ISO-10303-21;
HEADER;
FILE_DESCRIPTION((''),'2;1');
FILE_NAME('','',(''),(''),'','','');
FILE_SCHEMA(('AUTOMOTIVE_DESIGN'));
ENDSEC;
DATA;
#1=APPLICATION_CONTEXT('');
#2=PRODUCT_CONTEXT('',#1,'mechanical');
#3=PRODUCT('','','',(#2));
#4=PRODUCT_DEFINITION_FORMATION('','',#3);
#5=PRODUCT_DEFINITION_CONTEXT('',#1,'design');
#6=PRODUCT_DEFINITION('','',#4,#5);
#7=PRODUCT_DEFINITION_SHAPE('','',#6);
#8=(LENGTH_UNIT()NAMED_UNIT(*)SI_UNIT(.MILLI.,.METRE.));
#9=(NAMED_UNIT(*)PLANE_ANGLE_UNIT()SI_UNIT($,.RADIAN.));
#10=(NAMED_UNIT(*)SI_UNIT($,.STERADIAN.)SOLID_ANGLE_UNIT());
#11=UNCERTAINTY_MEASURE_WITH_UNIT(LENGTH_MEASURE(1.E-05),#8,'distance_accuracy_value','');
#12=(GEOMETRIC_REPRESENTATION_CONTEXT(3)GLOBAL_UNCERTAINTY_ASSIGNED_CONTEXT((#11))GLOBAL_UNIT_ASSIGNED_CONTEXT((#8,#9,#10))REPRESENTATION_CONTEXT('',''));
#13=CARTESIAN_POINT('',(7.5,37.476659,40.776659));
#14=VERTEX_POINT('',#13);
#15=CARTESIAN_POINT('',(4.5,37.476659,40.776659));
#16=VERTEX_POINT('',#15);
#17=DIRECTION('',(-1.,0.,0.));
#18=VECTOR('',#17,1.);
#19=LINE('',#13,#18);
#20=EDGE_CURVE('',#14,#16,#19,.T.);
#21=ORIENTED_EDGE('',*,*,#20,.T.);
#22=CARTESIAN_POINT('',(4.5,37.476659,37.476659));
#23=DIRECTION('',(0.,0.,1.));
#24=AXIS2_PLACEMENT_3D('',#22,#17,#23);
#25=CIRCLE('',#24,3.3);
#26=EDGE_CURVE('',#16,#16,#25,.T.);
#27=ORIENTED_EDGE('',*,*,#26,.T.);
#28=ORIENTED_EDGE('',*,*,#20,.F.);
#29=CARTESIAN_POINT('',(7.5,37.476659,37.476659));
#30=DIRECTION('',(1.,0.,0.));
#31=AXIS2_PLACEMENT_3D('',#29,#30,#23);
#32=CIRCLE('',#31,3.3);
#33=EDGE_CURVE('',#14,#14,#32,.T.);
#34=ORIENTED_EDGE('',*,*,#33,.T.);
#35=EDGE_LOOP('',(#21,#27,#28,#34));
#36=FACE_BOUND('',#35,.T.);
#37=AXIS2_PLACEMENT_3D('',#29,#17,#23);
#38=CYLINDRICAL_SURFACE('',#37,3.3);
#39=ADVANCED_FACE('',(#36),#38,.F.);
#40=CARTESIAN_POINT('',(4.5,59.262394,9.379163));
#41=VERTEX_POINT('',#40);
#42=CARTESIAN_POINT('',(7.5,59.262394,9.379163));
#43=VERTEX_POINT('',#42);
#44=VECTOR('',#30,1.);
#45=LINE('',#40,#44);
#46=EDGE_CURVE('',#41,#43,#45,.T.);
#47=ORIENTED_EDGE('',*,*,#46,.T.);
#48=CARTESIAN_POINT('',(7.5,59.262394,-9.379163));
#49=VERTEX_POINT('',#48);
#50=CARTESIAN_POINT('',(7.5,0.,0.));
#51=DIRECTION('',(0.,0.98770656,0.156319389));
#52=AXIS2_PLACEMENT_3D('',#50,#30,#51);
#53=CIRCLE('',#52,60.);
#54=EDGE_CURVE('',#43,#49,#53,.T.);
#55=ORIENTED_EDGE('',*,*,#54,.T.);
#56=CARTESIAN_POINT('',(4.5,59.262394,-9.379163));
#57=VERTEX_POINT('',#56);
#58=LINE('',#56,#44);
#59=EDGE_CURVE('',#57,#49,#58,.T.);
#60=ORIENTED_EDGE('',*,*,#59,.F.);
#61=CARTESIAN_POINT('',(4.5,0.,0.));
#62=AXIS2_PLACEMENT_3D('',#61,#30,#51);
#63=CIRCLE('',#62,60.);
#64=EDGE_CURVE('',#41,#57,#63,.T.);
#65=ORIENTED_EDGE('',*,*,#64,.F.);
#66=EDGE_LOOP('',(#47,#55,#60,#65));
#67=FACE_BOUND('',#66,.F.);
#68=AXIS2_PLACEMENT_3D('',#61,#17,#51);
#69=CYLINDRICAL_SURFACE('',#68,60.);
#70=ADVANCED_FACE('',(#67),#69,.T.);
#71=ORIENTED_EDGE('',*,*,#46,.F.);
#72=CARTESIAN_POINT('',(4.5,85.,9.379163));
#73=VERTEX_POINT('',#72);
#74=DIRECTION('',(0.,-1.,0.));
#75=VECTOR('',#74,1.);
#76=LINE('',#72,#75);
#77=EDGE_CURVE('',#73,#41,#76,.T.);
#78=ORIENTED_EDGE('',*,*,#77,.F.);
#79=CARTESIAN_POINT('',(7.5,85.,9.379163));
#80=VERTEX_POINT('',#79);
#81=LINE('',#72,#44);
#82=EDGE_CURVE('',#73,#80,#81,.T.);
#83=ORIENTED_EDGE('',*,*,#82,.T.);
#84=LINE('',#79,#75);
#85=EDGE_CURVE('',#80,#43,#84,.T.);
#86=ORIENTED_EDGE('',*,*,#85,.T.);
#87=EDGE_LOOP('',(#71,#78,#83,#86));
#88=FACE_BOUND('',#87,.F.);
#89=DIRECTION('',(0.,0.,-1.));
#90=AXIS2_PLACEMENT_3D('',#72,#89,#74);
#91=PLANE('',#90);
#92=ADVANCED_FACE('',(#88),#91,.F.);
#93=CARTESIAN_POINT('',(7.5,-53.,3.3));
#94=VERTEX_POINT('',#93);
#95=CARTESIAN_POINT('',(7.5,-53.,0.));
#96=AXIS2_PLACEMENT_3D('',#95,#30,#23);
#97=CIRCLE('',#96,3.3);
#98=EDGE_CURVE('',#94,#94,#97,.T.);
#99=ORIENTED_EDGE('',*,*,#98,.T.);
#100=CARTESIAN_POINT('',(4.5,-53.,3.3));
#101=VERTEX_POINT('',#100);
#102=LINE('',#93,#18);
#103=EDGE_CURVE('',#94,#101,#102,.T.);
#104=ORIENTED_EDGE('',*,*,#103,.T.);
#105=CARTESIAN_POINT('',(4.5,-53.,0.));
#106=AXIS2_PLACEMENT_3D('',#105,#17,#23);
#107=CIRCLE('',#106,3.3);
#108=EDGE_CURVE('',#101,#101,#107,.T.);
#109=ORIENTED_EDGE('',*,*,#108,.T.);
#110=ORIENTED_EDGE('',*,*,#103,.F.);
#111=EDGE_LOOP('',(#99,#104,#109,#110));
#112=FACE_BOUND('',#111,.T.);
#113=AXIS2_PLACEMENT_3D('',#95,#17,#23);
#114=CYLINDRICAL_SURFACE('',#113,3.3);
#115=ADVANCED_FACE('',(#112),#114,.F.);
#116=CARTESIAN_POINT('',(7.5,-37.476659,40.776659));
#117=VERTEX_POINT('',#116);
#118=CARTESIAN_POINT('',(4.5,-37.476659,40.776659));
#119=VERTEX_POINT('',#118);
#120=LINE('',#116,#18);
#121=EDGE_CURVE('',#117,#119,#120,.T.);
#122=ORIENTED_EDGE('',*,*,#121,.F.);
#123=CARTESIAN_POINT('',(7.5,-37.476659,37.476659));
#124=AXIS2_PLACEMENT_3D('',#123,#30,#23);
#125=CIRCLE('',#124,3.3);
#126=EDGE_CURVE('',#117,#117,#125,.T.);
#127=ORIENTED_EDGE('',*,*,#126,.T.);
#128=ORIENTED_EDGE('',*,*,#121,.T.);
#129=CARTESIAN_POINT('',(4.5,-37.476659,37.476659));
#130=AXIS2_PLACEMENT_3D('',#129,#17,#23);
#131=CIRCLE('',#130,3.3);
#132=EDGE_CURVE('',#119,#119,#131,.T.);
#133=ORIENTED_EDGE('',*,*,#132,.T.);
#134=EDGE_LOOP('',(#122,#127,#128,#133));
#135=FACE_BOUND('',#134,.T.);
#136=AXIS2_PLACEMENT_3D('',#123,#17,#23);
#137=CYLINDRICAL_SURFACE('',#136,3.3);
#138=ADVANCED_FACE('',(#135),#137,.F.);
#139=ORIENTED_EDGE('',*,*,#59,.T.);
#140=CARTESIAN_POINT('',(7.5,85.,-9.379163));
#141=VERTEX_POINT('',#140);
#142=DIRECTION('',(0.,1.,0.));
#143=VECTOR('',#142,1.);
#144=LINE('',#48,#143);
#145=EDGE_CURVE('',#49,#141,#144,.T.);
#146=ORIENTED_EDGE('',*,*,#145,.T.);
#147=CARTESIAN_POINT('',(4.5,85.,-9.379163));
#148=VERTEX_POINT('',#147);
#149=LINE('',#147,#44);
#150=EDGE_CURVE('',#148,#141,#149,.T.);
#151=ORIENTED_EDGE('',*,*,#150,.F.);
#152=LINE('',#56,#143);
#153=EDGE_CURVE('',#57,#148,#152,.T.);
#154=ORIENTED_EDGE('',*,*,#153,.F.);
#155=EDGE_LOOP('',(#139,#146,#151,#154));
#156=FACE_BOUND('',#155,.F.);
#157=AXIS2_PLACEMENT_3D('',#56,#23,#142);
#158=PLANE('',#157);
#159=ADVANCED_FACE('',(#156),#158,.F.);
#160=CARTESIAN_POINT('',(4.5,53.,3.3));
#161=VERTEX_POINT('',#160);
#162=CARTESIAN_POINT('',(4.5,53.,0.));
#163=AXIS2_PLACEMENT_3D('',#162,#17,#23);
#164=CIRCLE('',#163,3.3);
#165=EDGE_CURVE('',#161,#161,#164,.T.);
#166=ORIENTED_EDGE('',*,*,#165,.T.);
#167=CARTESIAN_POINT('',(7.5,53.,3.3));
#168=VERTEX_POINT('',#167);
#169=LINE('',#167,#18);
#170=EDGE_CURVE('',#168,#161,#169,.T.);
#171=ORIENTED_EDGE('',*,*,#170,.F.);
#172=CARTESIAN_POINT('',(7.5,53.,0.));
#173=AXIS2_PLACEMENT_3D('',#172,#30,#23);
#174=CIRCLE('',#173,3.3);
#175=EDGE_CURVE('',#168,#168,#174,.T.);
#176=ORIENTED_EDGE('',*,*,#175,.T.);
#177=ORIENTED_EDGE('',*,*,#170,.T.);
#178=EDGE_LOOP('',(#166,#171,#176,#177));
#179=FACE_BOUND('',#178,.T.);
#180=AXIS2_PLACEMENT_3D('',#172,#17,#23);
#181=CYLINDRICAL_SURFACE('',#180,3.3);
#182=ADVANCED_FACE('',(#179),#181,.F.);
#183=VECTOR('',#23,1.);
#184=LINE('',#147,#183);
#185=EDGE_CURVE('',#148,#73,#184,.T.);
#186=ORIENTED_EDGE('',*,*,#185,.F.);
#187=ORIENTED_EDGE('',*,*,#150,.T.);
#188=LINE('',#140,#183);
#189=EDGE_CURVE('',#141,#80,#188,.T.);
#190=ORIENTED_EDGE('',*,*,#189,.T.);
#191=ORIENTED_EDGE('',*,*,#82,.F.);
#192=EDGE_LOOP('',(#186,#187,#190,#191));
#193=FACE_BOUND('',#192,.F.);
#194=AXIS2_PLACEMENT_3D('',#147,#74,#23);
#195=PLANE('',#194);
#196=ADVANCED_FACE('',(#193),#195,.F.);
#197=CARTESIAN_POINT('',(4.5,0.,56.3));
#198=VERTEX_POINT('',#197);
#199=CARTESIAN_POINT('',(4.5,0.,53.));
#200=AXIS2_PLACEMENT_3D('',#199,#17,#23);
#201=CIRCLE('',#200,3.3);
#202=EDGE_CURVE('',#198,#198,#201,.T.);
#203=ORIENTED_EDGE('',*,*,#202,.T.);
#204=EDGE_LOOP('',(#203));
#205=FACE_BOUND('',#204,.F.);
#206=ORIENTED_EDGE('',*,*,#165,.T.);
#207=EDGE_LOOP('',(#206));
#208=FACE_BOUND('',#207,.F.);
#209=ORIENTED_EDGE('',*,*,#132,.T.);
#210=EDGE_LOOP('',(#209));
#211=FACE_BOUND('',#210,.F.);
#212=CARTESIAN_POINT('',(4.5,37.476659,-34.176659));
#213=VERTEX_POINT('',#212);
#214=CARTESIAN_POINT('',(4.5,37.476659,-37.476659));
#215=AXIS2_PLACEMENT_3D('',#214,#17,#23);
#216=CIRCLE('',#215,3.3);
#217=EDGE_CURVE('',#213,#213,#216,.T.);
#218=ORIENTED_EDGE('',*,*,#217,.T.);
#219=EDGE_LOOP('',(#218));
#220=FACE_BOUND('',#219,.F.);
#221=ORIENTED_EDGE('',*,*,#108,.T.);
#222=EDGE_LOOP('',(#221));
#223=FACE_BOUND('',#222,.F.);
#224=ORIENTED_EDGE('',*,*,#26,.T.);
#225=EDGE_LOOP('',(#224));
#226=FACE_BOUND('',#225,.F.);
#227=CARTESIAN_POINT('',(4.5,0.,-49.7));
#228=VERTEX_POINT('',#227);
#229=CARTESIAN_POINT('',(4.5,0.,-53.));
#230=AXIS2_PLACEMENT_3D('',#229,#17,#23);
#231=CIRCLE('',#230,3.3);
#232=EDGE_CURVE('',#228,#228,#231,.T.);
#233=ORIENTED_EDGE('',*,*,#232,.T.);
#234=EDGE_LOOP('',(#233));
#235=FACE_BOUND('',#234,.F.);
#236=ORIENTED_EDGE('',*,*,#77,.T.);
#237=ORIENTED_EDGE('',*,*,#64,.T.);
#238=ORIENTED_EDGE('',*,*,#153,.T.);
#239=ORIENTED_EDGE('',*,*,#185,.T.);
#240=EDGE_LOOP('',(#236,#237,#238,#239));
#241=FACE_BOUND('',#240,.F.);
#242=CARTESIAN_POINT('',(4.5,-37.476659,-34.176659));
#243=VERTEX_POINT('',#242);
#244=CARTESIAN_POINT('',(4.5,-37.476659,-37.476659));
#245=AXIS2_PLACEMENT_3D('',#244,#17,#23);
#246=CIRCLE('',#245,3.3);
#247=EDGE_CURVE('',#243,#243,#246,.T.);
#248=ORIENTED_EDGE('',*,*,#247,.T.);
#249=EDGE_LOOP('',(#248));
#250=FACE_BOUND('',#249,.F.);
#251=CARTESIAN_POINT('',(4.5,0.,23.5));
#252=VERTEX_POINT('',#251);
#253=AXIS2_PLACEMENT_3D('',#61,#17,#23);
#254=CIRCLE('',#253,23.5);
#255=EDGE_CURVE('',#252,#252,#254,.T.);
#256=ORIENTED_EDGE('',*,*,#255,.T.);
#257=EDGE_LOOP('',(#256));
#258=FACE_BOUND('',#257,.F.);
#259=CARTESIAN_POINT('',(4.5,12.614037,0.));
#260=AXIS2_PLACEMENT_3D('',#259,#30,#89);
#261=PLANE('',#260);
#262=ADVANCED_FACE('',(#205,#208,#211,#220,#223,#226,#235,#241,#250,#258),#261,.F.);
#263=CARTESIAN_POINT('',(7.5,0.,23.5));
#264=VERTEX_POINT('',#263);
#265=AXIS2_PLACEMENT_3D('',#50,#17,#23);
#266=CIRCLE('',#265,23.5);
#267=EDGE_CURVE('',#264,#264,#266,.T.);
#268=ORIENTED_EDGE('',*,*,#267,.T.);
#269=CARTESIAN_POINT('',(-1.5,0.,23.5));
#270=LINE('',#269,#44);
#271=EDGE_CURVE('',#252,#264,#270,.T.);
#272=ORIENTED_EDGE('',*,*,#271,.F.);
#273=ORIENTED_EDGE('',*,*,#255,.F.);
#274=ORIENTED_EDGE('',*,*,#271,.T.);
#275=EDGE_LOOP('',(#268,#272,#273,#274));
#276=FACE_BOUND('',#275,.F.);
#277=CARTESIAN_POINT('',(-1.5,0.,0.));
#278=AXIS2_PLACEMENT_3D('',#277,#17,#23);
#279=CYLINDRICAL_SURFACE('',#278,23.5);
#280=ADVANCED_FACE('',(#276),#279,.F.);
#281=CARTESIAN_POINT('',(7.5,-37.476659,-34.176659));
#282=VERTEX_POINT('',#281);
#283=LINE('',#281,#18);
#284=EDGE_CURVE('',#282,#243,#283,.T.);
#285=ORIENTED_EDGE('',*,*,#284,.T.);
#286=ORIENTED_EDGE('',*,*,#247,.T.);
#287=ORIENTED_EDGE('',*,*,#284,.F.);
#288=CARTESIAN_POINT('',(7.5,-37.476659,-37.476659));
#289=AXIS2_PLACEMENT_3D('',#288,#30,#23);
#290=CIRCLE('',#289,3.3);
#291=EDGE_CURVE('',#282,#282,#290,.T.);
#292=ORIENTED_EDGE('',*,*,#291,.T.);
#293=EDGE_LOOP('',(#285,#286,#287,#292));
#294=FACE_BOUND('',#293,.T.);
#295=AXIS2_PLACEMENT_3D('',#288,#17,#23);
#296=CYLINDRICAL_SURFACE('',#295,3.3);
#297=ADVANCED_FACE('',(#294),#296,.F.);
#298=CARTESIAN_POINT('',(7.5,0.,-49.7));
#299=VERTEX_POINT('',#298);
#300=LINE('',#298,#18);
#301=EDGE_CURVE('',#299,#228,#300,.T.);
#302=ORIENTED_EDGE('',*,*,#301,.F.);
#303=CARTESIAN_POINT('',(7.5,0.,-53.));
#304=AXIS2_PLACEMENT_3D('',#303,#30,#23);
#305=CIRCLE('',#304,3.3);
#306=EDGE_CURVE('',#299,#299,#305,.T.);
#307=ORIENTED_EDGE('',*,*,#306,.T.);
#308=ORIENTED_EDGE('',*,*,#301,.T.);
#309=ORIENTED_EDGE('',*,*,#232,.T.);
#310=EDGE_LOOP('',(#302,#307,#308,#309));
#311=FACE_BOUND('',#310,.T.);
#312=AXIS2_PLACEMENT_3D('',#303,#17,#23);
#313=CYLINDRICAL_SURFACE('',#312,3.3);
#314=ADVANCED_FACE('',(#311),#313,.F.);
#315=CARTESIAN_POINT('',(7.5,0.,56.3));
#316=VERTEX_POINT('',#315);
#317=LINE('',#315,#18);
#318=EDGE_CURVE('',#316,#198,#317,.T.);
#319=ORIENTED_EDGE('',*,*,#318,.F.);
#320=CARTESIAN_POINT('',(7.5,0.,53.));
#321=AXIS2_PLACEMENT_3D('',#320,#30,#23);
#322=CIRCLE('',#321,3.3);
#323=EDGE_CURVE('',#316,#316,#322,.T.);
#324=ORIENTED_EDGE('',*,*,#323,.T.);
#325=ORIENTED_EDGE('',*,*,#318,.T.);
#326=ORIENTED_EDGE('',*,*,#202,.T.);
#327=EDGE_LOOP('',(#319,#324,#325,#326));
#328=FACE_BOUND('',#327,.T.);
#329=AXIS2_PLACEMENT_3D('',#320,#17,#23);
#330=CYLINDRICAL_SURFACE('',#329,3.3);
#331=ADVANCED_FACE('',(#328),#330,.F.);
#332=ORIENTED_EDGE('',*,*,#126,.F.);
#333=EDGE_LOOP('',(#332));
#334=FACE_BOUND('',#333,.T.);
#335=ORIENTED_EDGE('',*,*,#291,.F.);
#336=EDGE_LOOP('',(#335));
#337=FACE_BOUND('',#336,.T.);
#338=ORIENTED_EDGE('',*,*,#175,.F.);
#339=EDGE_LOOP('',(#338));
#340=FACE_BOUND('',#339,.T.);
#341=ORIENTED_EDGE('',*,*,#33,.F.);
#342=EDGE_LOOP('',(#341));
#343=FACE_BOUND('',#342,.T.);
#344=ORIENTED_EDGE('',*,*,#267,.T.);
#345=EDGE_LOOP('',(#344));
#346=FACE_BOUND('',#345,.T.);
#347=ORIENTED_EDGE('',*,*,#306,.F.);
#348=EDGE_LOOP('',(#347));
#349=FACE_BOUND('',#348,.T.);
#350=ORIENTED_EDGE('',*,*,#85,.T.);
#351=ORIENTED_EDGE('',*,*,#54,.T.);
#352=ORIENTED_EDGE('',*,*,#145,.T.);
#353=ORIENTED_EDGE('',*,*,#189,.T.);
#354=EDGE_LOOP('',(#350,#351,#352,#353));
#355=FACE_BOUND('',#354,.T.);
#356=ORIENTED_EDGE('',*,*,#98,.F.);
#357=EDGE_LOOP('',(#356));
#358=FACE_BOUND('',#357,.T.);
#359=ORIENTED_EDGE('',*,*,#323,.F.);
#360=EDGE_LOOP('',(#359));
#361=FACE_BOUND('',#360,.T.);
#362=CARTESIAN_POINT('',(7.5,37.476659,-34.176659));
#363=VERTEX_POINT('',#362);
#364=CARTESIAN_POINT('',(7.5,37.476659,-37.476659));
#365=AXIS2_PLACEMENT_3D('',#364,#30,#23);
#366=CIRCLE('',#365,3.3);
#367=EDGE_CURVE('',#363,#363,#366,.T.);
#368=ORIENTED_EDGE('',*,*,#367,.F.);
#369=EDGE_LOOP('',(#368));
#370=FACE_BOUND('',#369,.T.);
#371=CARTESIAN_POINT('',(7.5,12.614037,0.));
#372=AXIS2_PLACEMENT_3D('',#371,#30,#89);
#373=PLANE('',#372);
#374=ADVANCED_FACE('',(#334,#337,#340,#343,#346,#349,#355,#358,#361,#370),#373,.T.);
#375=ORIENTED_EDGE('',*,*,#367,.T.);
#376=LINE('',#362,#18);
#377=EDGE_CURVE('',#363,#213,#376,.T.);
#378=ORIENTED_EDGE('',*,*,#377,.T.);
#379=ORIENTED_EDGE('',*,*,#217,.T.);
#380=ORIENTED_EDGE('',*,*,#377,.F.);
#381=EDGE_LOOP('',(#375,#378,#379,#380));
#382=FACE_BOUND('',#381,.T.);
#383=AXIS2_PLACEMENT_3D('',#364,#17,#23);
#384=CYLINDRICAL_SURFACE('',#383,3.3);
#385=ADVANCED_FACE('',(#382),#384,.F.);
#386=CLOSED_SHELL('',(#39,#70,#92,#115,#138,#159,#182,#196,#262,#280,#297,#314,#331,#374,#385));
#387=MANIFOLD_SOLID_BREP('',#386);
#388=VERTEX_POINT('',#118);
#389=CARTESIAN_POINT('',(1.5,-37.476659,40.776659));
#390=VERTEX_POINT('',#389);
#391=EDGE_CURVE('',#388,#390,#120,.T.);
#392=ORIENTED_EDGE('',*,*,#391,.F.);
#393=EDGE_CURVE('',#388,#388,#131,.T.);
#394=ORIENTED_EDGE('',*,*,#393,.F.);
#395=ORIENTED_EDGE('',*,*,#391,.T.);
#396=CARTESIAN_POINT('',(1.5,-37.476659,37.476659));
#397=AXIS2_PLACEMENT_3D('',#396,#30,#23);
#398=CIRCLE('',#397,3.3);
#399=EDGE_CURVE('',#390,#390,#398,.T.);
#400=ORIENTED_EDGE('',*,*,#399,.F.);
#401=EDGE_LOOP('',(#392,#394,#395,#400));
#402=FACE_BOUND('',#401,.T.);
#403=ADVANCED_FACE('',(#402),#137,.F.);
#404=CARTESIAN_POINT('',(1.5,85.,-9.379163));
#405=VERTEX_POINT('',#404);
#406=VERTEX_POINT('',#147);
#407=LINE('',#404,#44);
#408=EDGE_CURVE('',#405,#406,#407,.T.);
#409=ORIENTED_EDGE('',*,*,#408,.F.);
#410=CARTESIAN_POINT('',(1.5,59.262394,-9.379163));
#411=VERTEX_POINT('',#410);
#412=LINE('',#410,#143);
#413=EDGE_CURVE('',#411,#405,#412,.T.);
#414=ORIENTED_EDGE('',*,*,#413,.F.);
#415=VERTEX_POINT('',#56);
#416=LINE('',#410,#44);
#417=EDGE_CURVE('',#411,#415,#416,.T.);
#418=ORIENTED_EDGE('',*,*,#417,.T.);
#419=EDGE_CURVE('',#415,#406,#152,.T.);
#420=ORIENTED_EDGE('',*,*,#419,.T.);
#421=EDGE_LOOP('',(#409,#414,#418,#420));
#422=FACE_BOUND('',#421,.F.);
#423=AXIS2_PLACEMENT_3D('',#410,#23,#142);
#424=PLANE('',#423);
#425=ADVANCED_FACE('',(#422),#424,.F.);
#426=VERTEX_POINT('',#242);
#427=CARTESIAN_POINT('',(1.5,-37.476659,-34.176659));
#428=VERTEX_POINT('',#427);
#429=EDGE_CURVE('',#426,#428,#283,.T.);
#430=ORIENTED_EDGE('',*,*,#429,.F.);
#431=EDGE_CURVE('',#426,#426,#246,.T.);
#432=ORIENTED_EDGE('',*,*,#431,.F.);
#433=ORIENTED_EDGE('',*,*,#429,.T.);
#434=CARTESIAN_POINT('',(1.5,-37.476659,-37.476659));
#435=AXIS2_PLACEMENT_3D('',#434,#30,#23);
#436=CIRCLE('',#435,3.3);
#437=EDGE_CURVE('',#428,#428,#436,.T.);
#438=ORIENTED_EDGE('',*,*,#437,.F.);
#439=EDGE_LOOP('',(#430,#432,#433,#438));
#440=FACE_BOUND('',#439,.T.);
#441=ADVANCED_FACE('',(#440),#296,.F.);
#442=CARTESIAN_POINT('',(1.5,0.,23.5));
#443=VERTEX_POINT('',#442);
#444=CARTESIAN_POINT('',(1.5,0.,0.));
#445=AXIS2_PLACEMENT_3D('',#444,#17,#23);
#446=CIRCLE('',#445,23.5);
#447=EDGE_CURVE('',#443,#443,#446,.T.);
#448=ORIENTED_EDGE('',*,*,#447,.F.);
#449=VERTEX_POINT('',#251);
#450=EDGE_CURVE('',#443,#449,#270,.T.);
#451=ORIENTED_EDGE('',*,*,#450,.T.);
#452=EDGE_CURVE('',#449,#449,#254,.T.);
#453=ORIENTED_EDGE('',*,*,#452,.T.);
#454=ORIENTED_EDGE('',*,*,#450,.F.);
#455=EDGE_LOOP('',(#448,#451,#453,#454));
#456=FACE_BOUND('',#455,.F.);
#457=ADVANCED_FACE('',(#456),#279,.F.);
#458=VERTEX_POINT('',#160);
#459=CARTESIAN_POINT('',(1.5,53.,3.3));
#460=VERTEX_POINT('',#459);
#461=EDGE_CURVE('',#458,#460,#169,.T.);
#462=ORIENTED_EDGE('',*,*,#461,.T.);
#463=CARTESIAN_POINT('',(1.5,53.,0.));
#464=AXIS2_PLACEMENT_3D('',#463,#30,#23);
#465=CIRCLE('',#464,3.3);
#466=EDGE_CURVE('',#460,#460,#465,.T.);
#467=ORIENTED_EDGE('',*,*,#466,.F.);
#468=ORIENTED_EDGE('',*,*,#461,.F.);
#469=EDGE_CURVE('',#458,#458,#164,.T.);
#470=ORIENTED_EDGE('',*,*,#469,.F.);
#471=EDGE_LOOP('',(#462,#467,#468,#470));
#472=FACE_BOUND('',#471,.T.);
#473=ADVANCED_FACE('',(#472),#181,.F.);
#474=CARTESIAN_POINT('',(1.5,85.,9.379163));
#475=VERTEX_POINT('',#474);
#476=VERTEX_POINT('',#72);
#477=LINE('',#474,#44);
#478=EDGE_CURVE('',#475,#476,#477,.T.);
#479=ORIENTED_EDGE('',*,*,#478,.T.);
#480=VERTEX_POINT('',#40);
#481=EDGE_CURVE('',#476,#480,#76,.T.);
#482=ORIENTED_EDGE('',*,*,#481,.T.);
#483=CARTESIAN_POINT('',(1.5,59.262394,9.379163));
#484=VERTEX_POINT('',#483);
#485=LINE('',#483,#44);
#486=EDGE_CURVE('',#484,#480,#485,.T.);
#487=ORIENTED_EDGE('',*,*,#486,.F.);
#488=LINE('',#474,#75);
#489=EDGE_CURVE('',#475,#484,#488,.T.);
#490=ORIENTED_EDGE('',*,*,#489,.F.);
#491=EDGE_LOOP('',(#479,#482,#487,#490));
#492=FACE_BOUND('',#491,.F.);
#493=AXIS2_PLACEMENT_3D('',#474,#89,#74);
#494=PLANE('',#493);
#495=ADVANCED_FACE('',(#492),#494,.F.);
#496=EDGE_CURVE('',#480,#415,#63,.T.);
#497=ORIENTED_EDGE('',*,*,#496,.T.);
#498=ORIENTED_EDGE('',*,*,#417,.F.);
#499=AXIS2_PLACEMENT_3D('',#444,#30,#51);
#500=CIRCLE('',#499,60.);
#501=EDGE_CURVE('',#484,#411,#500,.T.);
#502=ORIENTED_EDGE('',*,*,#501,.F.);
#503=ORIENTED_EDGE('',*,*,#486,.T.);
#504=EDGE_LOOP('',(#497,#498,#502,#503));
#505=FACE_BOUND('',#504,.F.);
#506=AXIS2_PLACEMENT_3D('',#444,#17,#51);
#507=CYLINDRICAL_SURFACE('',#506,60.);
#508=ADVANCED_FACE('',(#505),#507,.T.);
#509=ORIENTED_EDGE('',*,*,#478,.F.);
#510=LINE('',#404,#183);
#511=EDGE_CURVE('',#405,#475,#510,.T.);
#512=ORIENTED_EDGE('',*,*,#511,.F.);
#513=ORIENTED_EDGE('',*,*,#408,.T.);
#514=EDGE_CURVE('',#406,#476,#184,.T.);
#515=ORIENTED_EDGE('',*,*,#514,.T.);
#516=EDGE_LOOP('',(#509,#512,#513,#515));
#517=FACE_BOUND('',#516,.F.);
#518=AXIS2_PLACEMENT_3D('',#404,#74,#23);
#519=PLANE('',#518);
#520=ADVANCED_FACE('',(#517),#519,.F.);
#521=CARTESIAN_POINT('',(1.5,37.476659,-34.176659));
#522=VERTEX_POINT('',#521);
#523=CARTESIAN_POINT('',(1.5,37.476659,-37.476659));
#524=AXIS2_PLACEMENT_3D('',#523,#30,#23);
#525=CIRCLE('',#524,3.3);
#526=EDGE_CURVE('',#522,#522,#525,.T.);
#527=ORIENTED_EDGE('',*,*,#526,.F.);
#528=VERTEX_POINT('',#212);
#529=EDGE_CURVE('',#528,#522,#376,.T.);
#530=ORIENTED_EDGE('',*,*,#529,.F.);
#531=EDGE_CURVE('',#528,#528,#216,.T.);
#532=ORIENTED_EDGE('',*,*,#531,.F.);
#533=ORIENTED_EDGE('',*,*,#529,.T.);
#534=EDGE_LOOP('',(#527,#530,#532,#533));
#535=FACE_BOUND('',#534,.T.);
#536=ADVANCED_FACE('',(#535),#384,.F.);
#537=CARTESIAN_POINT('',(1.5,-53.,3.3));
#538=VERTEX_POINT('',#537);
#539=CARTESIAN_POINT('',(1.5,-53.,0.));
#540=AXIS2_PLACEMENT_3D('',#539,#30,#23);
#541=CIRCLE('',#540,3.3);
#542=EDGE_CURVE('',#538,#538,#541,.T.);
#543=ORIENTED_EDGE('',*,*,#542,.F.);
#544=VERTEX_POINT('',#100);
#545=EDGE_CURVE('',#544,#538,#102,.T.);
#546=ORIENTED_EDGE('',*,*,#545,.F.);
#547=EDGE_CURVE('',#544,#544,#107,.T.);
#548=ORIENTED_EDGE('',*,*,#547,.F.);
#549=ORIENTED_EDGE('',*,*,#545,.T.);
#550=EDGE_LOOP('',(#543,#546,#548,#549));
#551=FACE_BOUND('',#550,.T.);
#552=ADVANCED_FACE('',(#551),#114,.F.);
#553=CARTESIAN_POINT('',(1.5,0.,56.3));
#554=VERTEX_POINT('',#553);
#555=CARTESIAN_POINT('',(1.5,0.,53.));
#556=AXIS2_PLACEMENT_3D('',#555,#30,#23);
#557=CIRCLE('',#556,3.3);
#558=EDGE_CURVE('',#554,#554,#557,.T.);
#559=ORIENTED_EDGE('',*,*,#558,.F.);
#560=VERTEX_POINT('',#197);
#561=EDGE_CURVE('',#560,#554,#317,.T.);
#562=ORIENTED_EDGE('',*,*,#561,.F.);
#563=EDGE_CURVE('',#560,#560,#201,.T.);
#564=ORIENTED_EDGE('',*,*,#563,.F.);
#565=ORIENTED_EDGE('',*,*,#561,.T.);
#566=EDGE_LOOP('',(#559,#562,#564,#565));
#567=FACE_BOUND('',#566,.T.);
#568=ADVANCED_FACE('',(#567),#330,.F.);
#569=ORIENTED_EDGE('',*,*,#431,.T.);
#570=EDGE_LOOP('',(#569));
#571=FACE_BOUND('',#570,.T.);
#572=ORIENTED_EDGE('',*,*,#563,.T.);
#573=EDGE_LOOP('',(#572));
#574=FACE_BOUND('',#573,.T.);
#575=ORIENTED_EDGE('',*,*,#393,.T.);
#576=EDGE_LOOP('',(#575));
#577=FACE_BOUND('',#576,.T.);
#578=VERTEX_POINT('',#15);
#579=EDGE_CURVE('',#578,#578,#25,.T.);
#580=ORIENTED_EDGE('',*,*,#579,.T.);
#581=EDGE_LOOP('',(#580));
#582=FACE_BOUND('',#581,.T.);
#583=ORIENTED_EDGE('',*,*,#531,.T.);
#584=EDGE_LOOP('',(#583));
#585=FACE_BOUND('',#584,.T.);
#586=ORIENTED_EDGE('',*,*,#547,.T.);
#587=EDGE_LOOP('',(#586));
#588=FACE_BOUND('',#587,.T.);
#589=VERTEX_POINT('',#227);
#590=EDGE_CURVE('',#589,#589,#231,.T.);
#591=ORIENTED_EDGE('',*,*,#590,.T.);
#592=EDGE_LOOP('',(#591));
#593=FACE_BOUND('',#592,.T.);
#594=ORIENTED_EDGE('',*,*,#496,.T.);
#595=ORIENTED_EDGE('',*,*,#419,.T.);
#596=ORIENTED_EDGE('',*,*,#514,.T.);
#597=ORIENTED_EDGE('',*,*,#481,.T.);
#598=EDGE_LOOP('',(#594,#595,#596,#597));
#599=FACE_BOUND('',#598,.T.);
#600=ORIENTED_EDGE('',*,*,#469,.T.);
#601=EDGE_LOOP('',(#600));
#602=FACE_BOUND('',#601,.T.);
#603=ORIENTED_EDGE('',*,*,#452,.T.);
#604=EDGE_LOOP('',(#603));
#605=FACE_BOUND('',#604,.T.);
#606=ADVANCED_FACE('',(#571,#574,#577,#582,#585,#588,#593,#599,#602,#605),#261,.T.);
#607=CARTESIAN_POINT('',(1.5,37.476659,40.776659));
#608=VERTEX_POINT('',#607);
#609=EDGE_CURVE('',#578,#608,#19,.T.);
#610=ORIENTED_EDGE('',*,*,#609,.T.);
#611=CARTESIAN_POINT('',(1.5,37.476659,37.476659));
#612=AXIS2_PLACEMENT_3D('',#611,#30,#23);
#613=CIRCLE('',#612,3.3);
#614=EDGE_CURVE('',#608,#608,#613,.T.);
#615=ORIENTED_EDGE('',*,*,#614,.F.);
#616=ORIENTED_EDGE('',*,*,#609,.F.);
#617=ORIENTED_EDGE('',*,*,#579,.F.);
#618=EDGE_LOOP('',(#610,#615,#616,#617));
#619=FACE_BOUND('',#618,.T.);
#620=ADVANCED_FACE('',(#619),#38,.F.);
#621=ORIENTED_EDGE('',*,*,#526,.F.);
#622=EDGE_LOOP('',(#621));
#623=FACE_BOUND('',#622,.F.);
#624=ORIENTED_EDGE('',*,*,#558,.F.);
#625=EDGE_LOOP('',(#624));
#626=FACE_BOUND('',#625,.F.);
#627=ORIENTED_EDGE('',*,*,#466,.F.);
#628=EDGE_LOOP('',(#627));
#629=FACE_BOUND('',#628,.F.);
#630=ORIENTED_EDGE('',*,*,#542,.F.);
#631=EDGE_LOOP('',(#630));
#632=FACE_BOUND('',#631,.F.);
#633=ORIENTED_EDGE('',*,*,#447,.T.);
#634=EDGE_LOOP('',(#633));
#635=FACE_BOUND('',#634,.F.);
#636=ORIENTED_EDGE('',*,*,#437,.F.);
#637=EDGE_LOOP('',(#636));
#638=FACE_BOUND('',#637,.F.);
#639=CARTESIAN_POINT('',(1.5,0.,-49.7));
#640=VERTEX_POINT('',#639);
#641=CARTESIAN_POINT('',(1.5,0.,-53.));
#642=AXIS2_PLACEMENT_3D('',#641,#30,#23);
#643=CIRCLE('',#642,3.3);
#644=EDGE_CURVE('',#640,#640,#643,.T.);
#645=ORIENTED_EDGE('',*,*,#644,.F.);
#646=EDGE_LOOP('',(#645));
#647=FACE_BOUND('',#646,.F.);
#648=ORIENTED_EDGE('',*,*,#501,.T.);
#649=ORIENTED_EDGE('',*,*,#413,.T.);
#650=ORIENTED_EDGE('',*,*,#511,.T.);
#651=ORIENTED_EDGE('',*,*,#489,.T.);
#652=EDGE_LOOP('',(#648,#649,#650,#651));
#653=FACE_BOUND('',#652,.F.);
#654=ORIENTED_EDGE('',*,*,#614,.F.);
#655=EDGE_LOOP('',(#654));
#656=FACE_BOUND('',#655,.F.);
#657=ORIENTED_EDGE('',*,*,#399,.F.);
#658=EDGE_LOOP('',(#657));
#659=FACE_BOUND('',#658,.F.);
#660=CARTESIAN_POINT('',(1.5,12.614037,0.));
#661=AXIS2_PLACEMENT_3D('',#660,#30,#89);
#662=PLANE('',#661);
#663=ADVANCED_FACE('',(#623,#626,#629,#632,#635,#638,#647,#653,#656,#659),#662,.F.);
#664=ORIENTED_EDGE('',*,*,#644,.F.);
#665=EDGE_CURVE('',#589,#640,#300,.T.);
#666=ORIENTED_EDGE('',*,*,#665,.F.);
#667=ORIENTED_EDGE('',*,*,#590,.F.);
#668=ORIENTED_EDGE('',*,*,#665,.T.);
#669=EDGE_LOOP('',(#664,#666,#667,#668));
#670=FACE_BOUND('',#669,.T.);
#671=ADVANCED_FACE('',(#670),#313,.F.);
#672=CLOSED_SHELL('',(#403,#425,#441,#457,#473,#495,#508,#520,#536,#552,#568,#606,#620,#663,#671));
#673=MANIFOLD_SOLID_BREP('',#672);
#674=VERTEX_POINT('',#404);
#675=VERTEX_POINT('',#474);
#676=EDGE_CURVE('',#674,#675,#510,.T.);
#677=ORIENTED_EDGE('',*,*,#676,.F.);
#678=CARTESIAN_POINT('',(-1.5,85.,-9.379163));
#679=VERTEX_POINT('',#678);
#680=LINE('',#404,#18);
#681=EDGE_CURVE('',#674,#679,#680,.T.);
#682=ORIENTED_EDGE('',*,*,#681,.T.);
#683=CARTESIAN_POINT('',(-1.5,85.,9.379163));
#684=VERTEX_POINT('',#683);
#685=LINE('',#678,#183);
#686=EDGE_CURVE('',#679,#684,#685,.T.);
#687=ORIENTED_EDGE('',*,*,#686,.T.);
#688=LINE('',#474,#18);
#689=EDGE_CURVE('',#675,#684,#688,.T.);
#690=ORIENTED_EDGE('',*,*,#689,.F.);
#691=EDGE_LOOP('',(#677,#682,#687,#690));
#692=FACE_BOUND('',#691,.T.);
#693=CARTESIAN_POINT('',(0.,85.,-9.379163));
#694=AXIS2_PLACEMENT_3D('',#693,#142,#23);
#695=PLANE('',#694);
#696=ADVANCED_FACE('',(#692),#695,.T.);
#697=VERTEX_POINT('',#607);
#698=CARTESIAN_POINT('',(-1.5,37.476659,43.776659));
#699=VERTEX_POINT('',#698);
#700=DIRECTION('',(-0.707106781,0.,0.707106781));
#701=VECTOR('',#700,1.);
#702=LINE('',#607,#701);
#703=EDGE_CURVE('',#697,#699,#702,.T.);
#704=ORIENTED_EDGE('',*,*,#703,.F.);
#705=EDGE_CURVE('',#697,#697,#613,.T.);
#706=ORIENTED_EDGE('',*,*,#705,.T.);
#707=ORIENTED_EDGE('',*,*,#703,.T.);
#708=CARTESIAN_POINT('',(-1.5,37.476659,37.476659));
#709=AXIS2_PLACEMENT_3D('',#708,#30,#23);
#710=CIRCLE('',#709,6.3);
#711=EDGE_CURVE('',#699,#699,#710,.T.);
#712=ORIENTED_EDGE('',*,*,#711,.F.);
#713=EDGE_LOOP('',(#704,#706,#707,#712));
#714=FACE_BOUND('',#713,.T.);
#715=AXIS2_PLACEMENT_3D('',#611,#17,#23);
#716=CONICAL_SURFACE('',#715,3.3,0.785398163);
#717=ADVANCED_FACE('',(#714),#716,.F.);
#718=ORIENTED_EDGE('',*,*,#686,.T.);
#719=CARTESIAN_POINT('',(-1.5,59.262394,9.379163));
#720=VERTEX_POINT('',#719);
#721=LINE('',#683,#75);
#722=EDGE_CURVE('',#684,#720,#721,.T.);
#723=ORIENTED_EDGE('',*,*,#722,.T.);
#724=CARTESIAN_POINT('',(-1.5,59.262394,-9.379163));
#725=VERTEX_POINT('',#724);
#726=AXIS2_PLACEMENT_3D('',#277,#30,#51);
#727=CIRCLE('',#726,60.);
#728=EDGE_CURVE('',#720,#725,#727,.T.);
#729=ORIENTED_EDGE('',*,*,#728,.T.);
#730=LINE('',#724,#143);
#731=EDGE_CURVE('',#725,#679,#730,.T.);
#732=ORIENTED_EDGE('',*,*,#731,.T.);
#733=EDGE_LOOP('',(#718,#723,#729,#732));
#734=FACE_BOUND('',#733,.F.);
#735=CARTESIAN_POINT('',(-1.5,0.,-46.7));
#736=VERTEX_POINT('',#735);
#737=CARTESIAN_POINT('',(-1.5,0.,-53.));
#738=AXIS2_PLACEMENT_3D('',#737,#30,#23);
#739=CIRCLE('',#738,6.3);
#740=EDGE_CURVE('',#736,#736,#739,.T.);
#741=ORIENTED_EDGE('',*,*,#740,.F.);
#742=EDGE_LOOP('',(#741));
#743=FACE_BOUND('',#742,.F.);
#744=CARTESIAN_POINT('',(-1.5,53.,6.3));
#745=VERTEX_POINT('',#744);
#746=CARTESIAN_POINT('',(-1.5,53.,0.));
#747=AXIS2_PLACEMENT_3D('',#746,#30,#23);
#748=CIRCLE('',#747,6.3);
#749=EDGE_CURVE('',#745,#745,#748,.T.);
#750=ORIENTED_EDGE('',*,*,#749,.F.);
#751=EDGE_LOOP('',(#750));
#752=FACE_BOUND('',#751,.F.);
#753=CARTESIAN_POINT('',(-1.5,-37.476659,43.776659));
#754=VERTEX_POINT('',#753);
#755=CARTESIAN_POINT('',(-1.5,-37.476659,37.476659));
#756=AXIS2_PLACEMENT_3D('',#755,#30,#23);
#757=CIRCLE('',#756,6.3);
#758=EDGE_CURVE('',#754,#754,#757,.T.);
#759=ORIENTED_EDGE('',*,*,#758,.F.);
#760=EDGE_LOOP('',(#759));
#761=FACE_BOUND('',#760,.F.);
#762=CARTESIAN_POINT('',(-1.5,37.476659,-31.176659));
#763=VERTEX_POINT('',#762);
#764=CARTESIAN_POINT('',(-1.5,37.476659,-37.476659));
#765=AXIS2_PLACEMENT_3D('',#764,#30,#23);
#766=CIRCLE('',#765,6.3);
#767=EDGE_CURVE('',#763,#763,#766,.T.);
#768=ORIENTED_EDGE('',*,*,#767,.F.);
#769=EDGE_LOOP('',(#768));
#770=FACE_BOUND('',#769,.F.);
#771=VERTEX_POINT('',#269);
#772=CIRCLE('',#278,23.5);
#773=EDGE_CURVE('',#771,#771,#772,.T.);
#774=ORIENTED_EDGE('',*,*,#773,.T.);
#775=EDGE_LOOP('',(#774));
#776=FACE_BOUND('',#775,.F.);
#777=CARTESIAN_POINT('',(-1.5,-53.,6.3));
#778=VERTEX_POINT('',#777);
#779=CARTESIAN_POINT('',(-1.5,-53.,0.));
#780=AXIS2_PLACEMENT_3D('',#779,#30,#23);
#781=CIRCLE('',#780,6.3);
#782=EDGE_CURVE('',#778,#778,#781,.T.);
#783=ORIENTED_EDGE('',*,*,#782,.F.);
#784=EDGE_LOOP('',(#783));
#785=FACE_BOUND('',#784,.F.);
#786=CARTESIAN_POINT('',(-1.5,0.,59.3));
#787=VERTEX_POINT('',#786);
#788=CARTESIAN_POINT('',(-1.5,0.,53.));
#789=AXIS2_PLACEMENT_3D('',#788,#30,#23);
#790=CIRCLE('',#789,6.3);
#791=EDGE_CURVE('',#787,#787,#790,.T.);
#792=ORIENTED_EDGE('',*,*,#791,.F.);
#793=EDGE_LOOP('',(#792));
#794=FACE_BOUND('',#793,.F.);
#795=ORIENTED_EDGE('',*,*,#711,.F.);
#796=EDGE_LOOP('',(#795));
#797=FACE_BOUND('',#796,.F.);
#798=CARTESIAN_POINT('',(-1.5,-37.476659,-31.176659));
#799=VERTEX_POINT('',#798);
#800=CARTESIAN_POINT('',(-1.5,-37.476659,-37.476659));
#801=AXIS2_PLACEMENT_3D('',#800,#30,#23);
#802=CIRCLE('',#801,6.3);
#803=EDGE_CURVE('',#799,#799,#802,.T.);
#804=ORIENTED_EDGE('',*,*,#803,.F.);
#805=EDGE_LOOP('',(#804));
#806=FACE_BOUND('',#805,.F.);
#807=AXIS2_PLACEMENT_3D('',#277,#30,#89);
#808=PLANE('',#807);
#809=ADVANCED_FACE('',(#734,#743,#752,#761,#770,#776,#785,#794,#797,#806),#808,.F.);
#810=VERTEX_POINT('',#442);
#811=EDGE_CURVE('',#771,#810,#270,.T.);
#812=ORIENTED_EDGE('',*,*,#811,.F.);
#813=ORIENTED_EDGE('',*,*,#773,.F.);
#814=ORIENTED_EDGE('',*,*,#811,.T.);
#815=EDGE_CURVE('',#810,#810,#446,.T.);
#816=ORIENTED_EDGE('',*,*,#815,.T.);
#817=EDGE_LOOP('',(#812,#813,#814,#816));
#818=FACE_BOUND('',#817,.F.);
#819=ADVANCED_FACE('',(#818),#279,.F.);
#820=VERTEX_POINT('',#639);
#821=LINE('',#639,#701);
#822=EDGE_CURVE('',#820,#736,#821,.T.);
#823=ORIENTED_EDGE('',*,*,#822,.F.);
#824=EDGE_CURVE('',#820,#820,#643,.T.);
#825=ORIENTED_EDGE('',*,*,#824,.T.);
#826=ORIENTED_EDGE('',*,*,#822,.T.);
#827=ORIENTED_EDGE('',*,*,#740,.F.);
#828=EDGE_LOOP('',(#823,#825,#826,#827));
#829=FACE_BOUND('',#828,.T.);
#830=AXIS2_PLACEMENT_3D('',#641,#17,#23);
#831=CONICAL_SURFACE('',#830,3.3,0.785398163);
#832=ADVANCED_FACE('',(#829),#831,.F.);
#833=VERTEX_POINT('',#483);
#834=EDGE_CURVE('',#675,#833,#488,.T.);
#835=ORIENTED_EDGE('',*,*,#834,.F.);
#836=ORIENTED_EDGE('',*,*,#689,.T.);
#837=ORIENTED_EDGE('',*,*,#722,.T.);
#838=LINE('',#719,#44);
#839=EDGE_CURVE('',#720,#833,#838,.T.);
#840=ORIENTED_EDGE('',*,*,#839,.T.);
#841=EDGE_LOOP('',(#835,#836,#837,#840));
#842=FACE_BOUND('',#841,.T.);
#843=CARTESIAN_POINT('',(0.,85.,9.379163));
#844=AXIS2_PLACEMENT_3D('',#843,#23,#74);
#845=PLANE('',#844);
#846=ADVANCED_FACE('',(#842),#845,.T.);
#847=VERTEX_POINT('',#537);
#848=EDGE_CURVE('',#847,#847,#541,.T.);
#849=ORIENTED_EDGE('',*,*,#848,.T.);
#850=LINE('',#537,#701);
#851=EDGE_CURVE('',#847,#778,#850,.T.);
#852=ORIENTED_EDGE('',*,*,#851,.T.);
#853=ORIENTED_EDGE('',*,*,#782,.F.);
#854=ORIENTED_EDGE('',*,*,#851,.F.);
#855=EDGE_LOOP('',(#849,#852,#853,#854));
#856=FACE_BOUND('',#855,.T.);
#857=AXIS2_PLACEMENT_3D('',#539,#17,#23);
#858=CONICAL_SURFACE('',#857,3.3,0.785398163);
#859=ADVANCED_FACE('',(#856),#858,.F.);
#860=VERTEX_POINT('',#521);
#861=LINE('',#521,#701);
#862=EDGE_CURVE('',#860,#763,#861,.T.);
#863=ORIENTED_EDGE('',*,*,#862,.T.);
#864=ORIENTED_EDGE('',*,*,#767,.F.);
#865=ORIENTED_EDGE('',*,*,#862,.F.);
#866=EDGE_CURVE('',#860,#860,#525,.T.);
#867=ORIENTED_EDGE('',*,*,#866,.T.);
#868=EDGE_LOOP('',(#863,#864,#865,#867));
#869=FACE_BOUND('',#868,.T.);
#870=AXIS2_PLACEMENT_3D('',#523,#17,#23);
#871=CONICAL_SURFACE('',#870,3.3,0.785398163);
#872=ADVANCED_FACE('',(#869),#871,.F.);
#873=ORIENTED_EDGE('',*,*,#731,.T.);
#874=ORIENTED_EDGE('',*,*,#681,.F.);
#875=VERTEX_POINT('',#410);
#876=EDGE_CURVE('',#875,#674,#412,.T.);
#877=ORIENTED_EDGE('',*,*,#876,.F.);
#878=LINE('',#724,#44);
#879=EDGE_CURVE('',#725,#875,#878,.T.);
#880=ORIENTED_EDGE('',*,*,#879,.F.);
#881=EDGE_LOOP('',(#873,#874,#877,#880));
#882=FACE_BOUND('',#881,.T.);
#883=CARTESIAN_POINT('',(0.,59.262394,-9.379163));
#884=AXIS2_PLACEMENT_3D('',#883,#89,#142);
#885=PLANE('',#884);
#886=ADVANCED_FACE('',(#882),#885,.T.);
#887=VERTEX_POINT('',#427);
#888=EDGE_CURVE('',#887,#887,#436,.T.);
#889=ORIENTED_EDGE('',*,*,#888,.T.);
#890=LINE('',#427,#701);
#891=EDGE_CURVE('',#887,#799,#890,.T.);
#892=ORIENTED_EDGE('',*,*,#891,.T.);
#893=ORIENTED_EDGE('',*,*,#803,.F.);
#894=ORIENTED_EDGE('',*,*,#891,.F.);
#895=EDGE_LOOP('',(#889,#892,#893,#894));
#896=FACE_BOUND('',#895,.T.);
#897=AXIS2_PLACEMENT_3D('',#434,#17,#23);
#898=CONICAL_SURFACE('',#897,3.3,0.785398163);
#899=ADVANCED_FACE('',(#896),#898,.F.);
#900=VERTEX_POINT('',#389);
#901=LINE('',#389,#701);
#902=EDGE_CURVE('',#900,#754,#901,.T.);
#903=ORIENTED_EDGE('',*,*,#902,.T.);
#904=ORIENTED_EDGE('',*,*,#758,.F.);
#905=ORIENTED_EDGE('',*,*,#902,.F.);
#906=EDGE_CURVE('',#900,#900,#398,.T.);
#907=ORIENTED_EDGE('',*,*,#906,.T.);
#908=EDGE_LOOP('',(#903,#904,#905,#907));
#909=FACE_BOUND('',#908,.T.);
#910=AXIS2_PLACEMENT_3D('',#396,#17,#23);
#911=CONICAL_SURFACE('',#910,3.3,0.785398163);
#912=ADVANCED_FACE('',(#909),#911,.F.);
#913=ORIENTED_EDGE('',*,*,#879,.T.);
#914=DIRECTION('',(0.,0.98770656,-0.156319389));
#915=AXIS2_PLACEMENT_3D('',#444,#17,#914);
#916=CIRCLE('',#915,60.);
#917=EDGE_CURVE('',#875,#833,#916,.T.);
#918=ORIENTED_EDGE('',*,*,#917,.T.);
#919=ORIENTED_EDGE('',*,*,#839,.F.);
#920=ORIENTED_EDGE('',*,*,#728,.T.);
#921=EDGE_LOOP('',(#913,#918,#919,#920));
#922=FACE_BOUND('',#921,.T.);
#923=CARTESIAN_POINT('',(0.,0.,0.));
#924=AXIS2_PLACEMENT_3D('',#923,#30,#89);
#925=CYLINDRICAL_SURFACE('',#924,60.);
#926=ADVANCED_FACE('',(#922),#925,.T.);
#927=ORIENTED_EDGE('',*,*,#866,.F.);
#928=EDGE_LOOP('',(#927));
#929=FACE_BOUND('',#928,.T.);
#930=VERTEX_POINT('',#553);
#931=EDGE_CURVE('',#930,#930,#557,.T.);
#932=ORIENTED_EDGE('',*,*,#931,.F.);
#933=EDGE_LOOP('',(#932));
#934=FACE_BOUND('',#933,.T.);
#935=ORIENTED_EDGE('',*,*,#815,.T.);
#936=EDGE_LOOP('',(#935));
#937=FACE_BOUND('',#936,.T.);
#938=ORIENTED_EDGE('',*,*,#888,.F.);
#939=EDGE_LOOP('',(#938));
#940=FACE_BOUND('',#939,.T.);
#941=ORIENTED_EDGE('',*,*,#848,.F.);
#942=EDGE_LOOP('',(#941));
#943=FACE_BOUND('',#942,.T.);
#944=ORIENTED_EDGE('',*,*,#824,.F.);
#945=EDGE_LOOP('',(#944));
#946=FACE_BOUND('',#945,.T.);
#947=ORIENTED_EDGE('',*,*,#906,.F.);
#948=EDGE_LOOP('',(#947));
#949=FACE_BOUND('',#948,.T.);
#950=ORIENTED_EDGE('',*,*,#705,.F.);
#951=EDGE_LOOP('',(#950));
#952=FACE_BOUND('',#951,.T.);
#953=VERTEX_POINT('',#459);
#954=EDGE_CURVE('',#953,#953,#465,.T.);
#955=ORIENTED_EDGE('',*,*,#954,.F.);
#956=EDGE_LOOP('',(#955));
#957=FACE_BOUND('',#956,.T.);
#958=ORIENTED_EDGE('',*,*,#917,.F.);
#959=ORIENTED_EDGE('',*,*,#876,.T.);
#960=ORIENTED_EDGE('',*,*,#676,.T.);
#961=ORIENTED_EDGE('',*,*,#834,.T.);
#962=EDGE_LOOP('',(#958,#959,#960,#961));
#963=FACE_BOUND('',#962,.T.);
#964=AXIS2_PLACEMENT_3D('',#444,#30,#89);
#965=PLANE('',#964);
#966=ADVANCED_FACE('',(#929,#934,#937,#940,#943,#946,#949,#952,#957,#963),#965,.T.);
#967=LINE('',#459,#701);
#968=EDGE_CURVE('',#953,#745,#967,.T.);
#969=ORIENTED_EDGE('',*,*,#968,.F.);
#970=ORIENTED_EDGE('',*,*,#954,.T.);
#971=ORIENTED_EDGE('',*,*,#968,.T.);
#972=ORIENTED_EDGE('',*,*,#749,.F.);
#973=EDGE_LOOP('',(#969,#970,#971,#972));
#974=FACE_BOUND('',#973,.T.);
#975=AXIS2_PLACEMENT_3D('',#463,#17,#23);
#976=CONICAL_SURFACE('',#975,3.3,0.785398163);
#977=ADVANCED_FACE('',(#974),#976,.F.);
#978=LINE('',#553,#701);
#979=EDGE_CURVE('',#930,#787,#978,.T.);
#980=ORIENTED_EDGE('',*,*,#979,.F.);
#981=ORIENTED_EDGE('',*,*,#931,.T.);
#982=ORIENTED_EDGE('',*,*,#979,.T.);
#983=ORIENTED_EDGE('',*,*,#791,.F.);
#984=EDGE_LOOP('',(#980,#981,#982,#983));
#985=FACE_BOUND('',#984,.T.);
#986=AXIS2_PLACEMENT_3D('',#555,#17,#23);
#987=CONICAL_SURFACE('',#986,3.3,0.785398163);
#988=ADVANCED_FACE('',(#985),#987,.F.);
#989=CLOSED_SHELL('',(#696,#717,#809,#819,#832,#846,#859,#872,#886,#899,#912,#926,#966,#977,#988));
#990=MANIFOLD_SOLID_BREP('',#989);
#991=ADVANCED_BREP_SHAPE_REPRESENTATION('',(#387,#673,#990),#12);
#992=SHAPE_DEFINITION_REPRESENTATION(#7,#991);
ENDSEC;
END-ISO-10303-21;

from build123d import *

# Parameters (mm, degrees)
SKETCH1_R                                    = 60
BOSS_EXTRUDE1_DEPTH                          = 1.5
BOSS_EXTRUDE2_DEPTH                          = 1.5
BOSS_EXTRUDE3_DEPTH                          = 3
BOSS_EXTRUDE4_DEPTH                          = 3
CSK_FOR_M6_COUNTERSUNK_FLAT_HEAD_SCR_2_COUNT = 2
CSK_FOR_M6_COUNTERSUNK_FLAT_HEAD_SCR_2_PITCH = 40.564443831
CSK_FOR_M6_COUNTERSUNK_FLAT_HEAD_SCR_3_COUNT = 2
CSK_FOR_M6_COUNTERSUNK_FLAT_HEAD_SCR_3_PITCH = 74.953318806
CSK_FOR_M6_COUNTERSUNK_FLAT_HEAD_SCR_4_COUNT = 2
CSK_FOR_M6_COUNTERSUNK_FLAT_HEAD_SCR_4_PITCH = 97.931230446
CSK_FOR_M6_COUNTERSUNK_FLAT_HEAD_SCR_5_COUNT = 2
CSK_FOR_M6_COUNTERSUNK_FLAT_HEAD_SCR_5_PITCH = 106
CSK_FOR_M6_COUNTERSUNK_FLAT_HEAD_SCR_6_COUNT = 2
CSK_FOR_M6_COUNTERSUNK_FLAT_HEAD_SCR_6_PITCH = 97.931230446
CSK_FOR_M6_COUNTERSUNK_FLAT_HEAD_SCR_7_COUNT = 2
CSK_FOR_M6_COUNTERSUNK_FLAT_HEAD_SCR_7_PITCH = 74.953318806
CSK_FOR_M6_COUNTERSUNK_FLAT_HEAD_SCR_8_COUNT = 2
CSK_FOR_M6_COUNTERSUNK_FLAT_HEAD_SCR_8_PITCH = 40.564443831
SKETCH8_R                                    = 23.5
CUT_EXTRUDE1_DEPTH                           = 10


with BuildPart() as part:
    # Sketch1 → Boss-Extrude1 (new body, symmetric)
    with BuildSketch(Plane(origin=(0, 0, 0), x_dir=(0, 0, -1), z_dir=(1, 0, 0))):
        Circle(SKETCH1_R)
    extrude(amount=BOSS_EXTRUDE1_DEPTH, both=True)

    # Sketch3 → Boss-Extrude2 (add, symmetric)
    with BuildSketch(Plane(origin=(0, 0, 0), x_dir=(0, 0, -1), z_dir=(1, 0, 0))):
        with BuildLine():
            Line((-9.379163336, 85), (-9.379163336, 59.262393599))
            ThreePointArc((-9.379163336, 59.262393599), (0, 60), (9.379163336, 59.262393599))
            Line((9.379163336, 59.262393599), (9.379163336, 85))
            Line((9.379163336, 85), (-9.379163336, 85))
        make_face()
    extrude(amount=BOSS_EXTRUDE2_DEPTH, both=True)


with BuildPart() as body_2:
    # Sketch6 → Boss-Extrude3 (new body)
    with BuildSketch(Plane(origin=(1.5, 0, 0), x_dir=(0, 0, -1), z_dir=(1, 0, 0))):
        with BuildLine():
            Line((9.379163336, 59.262393599), (9.379163336, 85))
            Line((9.379163336, 85), (-9.379163336, 85))
            Line((-9.379163336, 85), (-9.379163336, 59.262393599))
            ThreePointArc((-9.379163336, 59.262393599), (0, -60), (9.379163336, 59.262393599))
        make_face()
    extrude(amount=BOSS_EXTRUDE3_DEPTH)


with BuildPart() as body_3:
    # Sketch7 → Boss-Extrude4 (new body)
    with BuildSketch(Plane(origin=(4.5, 0, 0), x_dir=(0, 0, -1), z_dir=(1, 0, 0))):
        with BuildLine():
            Line((9.379163336, 59.262393599), (9.379163336, 85))
            Line((9.379163336, 85), (-9.379163336, 85))
            Line((-9.379163336, 85), (-9.379163336, 59.262393599))
            ThreePointArc((-9.379163336, 59.262393599), (0, -60), (9.379163336, 59.262393599))
        make_face()
    extrude(amount=BOSS_EXTRUDE4_DEPTH)


with BuildPart() as csk_for_m6_countersunk_flat_head_screw1_tool:
    # Sketch5 → CSK for M6 Countersunk Flat Head Screw1 (revolve)
    with BuildSketch(Plane(origin=(-1.5, 37.476659403, 37.476659403), x_dir=(0, 0, 1), z_dir=(0, 1, 0))):
        Polygon((0, 0), (0, 9), (3.3, 9), (3.3, 3), (6.3, 0), align=None)
    csk_for_m6_countersunk_flat_head_screw1 = revolve(axis=Axis((-7.85, 37.476659403, 37.476659403), (1, 0, 0)))


with BuildPart() as part_1:
    add(part.part)

    # CSK for M6 Countersunk Flat Head Screw1: cut by csk_for_m6_countersunk_flat_head_screw1_tool
    add(csk_for_m6_countersunk_flat_head_screw1_tool.part, mode=Mode.SUBTRACT)


with BuildPart() as body_2_1:
    add(body_2.part)

    # CSK for M6 Countersunk Flat Head Screw1: cut by csk_for_m6_countersunk_flat_head_screw1_tool
    add(csk_for_m6_countersunk_flat_head_screw1_tool.part, mode=Mode.SUBTRACT)


with BuildPart() as body_3_1:
    add(body_3.part)

    # CSK for M6 Countersunk Flat Head Screw1: cut by csk_for_m6_countersunk_flat_head_screw1_tool
    add(csk_for_m6_countersunk_flat_head_screw1_tool.part, mode=Mode.SUBTRACT)


with BuildPart() as csk_for_m6_countersunk_flat_head_scr_2_tool:
    # CSK for M6 Countersunk Flat Head Scr 2: CSK for M6 Countersunk Flat Head Screw1 ×2
    with Locations(*[Vector(0, -0.923879533, 0.382683432) * (i * CSK_FOR_M6_COUNTERSUNK_FLAT_HEAD_SCR_2_PITCH) for i in range(1, CSK_FOR_M6_COUNTERSUNK_FLAT_HEAD_SCR_2_COUNT)]):
        add(csk_for_m6_countersunk_flat_head_screw1)


with BuildPart() as part_2:
    add(part_1.part)

    # CSK for M6 Countersunk Flat Head Scr 2: cut by csk_for_m6_countersunk_flat_head_scr_2_tool
    add(csk_for_m6_countersunk_flat_head_scr_2_tool.part, mode=Mode.SUBTRACT)


with BuildPart() as body_2_2:
    add(body_2_1.part)

    # CSK for M6 Countersunk Flat Head Scr 2: cut by csk_for_m6_countersunk_flat_head_scr_2_tool
    add(csk_for_m6_countersunk_flat_head_scr_2_tool.part, mode=Mode.SUBTRACT)


with BuildPart() as body_3_2:
    add(body_3_1.part)

    # CSK for M6 Countersunk Flat Head Scr 2: cut by csk_for_m6_countersunk_flat_head_scr_2_tool
    add(csk_for_m6_countersunk_flat_head_scr_2_tool.part, mode=Mode.SUBTRACT)


with BuildPart() as csk_for_m6_countersunk_flat_head_scr_3_tool:
    # CSK for M6 Countersunk Flat Head Scr 3: CSK for M6 Countersunk Flat Head Screw1 ×2
    with Locations(*[(0, -i * CSK_FOR_M6_COUNTERSUNK_FLAT_HEAD_SCR_3_PITCH, 0) for i in range(1, CSK_FOR_M6_COUNTERSUNK_FLAT_HEAD_SCR_3_COUNT)]):
        add(csk_for_m6_countersunk_flat_head_screw1)


with BuildPart() as part_3:
    add(part_2.part)

    # CSK for M6 Countersunk Flat Head Scr 3: cut by csk_for_m6_countersunk_flat_head_scr_3_tool
    add(csk_for_m6_countersunk_flat_head_scr_3_tool.part, mode=Mode.SUBTRACT)


with BuildPart() as body_2_3:
    add(body_2_2.part)

    # CSK for M6 Countersunk Flat Head Scr 3: cut by csk_for_m6_countersunk_flat_head_scr_3_tool
    add(csk_for_m6_countersunk_flat_head_scr_3_tool.part, mode=Mode.SUBTRACT)


with BuildPart() as body_3_3:
    add(body_3_2.part)

    # CSK for M6 Countersunk Flat Head Scr 3: cut by csk_for_m6_countersunk_flat_head_scr_3_tool
    add(csk_for_m6_countersunk_flat_head_scr_3_tool.part, mode=Mode.SUBTRACT)


with BuildPart() as csk_for_m6_countersunk_flat_head_scr_4_tool:
    # CSK for M6 Countersunk Flat Head Scr 4: CSK for M6 Countersunk Flat Head Screw1 ×2
    with Locations(*[Vector(0, -0.923879533, -0.382683432) * (i * CSK_FOR_M6_COUNTERSUNK_FLAT_HEAD_SCR_4_PITCH) for i in range(1, CSK_FOR_M6_COUNTERSUNK_FLAT_HEAD_SCR_4_COUNT)]):
        add(csk_for_m6_countersunk_flat_head_screw1)


with BuildPart() as part_4:
    add(part_3.part)

    # CSK for M6 Countersunk Flat Head Scr 4: cut by csk_for_m6_countersunk_flat_head_scr_4_tool
    add(csk_for_m6_countersunk_flat_head_scr_4_tool.part, mode=Mode.SUBTRACT)


with BuildPart() as body_2_4:
    add(body_2_3.part)

    # CSK for M6 Countersunk Flat Head Scr 4: cut by csk_for_m6_countersunk_flat_head_scr_4_tool
    add(csk_for_m6_countersunk_flat_head_scr_4_tool.part, mode=Mode.SUBTRACT)


with BuildPart() as body_3_4:
    add(body_3_3.part)

    # CSK for M6 Countersunk Flat Head Scr 4: cut by csk_for_m6_countersunk_flat_head_scr_4_tool
    add(csk_for_m6_countersunk_flat_head_scr_4_tool.part, mode=Mode.SUBTRACT)


with BuildPart() as csk_for_m6_countersunk_flat_head_scr_5_tool:
    # CSK for M6 Countersunk Flat Head Scr 5: CSK for M6 Countersunk Flat Head Screw1 ×2
    with Locations(*[Vector(0, -0.707106781, -0.707106781) * (i * CSK_FOR_M6_COUNTERSUNK_FLAT_HEAD_SCR_5_PITCH) for i in range(1, CSK_FOR_M6_COUNTERSUNK_FLAT_HEAD_SCR_5_COUNT)]):
        add(csk_for_m6_countersunk_flat_head_screw1)


with BuildPart() as part_5:
    add(part_4.part)

    # CSK for M6 Countersunk Flat Head Scr 5: cut by csk_for_m6_countersunk_flat_head_scr_5_tool
    add(csk_for_m6_countersunk_flat_head_scr_5_tool.part, mode=Mode.SUBTRACT)


with BuildPart() as body_2_5:
    add(body_2_4.part)

    # CSK for M6 Countersunk Flat Head Scr 5: cut by csk_for_m6_countersunk_flat_head_scr_5_tool
    add(csk_for_m6_countersunk_flat_head_scr_5_tool.part, mode=Mode.SUBTRACT)


with BuildPart() as body_3_5:
    add(body_3_4.part)

    # CSK for M6 Countersunk Flat Head Scr 5: cut by csk_for_m6_countersunk_flat_head_scr_5_tool
    add(csk_for_m6_countersunk_flat_head_scr_5_tool.part, mode=Mode.SUBTRACT)


with BuildPart() as csk_for_m6_countersunk_flat_head_scr_6_tool:
    # CSK for M6 Countersunk Flat Head Scr 6: CSK for M6 Countersunk Flat Head Screw1 ×2
    with Locations(*[Vector(0, -0.382683432, -0.923879533) * (i * CSK_FOR_M6_COUNTERSUNK_FLAT_HEAD_SCR_6_PITCH) for i in range(1, CSK_FOR_M6_COUNTERSUNK_FLAT_HEAD_SCR_6_COUNT)]):
        add(csk_for_m6_countersunk_flat_head_screw1)


with BuildPart() as part_6:
    add(part_5.part)

    # CSK for M6 Countersunk Flat Head Scr 6: cut by csk_for_m6_countersunk_flat_head_scr_6_tool
    add(csk_for_m6_countersunk_flat_head_scr_6_tool.part, mode=Mode.SUBTRACT)


with BuildPart() as body_2_6:
    add(body_2_5.part)

    # CSK for M6 Countersunk Flat Head Scr 6: cut by csk_for_m6_countersunk_flat_head_scr_6_tool
    add(csk_for_m6_countersunk_flat_head_scr_6_tool.part, mode=Mode.SUBTRACT)


with BuildPart() as body_3_6:
    add(body_3_5.part)

    # CSK for M6 Countersunk Flat Head Scr 6: cut by csk_for_m6_countersunk_flat_head_scr_6_tool
    add(csk_for_m6_countersunk_flat_head_scr_6_tool.part, mode=Mode.SUBTRACT)


with BuildPart() as csk_for_m6_countersunk_flat_head_scr_7_tool:
    # CSK for M6 Countersunk Flat Head Scr 7: CSK for M6 Countersunk Flat Head Screw1 ×2
    with Locations(*[(0, 0, -i * CSK_FOR_M6_COUNTERSUNK_FLAT_HEAD_SCR_7_PITCH) for i in range(1, CSK_FOR_M6_COUNTERSUNK_FLAT_HEAD_SCR_7_COUNT)]):
        add(csk_for_m6_countersunk_flat_head_screw1)


with BuildPart() as part_7:
    add(part_6.part)

    # CSK for M6 Countersunk Flat Head Scr 7: cut by csk_for_m6_countersunk_flat_head_scr_7_tool
    add(csk_for_m6_countersunk_flat_head_scr_7_tool.part, mode=Mode.SUBTRACT)


with BuildPart() as body_2_7:
    add(body_2_6.part)

    # CSK for M6 Countersunk Flat Head Scr 7: cut by csk_for_m6_countersunk_flat_head_scr_7_tool
    add(csk_for_m6_countersunk_flat_head_scr_7_tool.part, mode=Mode.SUBTRACT)


with BuildPart() as body_3_7:
    add(body_3_6.part)

    # CSK for M6 Countersunk Flat Head Scr 7: cut by csk_for_m6_countersunk_flat_head_scr_7_tool
    add(csk_for_m6_countersunk_flat_head_scr_7_tool.part, mode=Mode.SUBTRACT)


with BuildPart() as csk_for_m6_countersunk_flat_head_scr_8_tool:
    # CSK for M6 Countersunk Flat Head Scr 8: CSK for M6 Countersunk Flat Head Screw1 ×2
    with Locations(*[Vector(0, 0.382683432, -0.923879533) * (i * CSK_FOR_M6_COUNTERSUNK_FLAT_HEAD_SCR_8_PITCH) for i in range(1, CSK_FOR_M6_COUNTERSUNK_FLAT_HEAD_SCR_8_COUNT)]):
        add(csk_for_m6_countersunk_flat_head_screw1)


with BuildPart() as part_8:
    add(part_7.part)

    # CSK for M6 Countersunk Flat Head Scr 8: cut by csk_for_m6_countersunk_flat_head_scr_8_tool
    add(csk_for_m6_countersunk_flat_head_scr_8_tool.part, mode=Mode.SUBTRACT)


with BuildPart() as body_2_8:
    add(body_2_7.part)

    # CSK for M6 Countersunk Flat Head Scr 8: cut by csk_for_m6_countersunk_flat_head_scr_8_tool
    add(csk_for_m6_countersunk_flat_head_scr_8_tool.part, mode=Mode.SUBTRACT)


with BuildPart() as body_3_8:
    add(body_3_7.part)

    # CSK for M6 Countersunk Flat Head Scr 8: cut by csk_for_m6_countersunk_flat_head_scr_8_tool
    add(csk_for_m6_countersunk_flat_head_scr_8_tool.part, mode=Mode.SUBTRACT)


with BuildPart() as cut_extrude1_tool:
    # Sketch8 → Cut-Extrude1 (new body, through all)
    with BuildSketch(Plane.ZY.offset(1.5)):
        Circle(SKETCH8_R)
    extrude(amount=-CUT_EXTRUDE1_DEPTH)


with BuildPart() as part_9:
    add(part_8.part)

    # Cut-Extrude1: cut by cut_extrude1_tool
    add(cut_extrude1_tool.part, mode=Mode.SUBTRACT)


with BuildPart() as body_2_9:
    add(body_2_8.part)

    # Cut-Extrude1: cut by cut_extrude1_tool
    add(cut_extrude1_tool.part, mode=Mode.SUBTRACT)


with BuildPart() as body_3_9:
    add(body_3_8.part)

    # Cut-Extrude1: cut by cut_extrude1_tool
    add(cut_extrude1_tool.part, mode=Mode.SUBTRACT)


solid = Compound([part_9.part, body_2_9.part, body_3_9.part])
